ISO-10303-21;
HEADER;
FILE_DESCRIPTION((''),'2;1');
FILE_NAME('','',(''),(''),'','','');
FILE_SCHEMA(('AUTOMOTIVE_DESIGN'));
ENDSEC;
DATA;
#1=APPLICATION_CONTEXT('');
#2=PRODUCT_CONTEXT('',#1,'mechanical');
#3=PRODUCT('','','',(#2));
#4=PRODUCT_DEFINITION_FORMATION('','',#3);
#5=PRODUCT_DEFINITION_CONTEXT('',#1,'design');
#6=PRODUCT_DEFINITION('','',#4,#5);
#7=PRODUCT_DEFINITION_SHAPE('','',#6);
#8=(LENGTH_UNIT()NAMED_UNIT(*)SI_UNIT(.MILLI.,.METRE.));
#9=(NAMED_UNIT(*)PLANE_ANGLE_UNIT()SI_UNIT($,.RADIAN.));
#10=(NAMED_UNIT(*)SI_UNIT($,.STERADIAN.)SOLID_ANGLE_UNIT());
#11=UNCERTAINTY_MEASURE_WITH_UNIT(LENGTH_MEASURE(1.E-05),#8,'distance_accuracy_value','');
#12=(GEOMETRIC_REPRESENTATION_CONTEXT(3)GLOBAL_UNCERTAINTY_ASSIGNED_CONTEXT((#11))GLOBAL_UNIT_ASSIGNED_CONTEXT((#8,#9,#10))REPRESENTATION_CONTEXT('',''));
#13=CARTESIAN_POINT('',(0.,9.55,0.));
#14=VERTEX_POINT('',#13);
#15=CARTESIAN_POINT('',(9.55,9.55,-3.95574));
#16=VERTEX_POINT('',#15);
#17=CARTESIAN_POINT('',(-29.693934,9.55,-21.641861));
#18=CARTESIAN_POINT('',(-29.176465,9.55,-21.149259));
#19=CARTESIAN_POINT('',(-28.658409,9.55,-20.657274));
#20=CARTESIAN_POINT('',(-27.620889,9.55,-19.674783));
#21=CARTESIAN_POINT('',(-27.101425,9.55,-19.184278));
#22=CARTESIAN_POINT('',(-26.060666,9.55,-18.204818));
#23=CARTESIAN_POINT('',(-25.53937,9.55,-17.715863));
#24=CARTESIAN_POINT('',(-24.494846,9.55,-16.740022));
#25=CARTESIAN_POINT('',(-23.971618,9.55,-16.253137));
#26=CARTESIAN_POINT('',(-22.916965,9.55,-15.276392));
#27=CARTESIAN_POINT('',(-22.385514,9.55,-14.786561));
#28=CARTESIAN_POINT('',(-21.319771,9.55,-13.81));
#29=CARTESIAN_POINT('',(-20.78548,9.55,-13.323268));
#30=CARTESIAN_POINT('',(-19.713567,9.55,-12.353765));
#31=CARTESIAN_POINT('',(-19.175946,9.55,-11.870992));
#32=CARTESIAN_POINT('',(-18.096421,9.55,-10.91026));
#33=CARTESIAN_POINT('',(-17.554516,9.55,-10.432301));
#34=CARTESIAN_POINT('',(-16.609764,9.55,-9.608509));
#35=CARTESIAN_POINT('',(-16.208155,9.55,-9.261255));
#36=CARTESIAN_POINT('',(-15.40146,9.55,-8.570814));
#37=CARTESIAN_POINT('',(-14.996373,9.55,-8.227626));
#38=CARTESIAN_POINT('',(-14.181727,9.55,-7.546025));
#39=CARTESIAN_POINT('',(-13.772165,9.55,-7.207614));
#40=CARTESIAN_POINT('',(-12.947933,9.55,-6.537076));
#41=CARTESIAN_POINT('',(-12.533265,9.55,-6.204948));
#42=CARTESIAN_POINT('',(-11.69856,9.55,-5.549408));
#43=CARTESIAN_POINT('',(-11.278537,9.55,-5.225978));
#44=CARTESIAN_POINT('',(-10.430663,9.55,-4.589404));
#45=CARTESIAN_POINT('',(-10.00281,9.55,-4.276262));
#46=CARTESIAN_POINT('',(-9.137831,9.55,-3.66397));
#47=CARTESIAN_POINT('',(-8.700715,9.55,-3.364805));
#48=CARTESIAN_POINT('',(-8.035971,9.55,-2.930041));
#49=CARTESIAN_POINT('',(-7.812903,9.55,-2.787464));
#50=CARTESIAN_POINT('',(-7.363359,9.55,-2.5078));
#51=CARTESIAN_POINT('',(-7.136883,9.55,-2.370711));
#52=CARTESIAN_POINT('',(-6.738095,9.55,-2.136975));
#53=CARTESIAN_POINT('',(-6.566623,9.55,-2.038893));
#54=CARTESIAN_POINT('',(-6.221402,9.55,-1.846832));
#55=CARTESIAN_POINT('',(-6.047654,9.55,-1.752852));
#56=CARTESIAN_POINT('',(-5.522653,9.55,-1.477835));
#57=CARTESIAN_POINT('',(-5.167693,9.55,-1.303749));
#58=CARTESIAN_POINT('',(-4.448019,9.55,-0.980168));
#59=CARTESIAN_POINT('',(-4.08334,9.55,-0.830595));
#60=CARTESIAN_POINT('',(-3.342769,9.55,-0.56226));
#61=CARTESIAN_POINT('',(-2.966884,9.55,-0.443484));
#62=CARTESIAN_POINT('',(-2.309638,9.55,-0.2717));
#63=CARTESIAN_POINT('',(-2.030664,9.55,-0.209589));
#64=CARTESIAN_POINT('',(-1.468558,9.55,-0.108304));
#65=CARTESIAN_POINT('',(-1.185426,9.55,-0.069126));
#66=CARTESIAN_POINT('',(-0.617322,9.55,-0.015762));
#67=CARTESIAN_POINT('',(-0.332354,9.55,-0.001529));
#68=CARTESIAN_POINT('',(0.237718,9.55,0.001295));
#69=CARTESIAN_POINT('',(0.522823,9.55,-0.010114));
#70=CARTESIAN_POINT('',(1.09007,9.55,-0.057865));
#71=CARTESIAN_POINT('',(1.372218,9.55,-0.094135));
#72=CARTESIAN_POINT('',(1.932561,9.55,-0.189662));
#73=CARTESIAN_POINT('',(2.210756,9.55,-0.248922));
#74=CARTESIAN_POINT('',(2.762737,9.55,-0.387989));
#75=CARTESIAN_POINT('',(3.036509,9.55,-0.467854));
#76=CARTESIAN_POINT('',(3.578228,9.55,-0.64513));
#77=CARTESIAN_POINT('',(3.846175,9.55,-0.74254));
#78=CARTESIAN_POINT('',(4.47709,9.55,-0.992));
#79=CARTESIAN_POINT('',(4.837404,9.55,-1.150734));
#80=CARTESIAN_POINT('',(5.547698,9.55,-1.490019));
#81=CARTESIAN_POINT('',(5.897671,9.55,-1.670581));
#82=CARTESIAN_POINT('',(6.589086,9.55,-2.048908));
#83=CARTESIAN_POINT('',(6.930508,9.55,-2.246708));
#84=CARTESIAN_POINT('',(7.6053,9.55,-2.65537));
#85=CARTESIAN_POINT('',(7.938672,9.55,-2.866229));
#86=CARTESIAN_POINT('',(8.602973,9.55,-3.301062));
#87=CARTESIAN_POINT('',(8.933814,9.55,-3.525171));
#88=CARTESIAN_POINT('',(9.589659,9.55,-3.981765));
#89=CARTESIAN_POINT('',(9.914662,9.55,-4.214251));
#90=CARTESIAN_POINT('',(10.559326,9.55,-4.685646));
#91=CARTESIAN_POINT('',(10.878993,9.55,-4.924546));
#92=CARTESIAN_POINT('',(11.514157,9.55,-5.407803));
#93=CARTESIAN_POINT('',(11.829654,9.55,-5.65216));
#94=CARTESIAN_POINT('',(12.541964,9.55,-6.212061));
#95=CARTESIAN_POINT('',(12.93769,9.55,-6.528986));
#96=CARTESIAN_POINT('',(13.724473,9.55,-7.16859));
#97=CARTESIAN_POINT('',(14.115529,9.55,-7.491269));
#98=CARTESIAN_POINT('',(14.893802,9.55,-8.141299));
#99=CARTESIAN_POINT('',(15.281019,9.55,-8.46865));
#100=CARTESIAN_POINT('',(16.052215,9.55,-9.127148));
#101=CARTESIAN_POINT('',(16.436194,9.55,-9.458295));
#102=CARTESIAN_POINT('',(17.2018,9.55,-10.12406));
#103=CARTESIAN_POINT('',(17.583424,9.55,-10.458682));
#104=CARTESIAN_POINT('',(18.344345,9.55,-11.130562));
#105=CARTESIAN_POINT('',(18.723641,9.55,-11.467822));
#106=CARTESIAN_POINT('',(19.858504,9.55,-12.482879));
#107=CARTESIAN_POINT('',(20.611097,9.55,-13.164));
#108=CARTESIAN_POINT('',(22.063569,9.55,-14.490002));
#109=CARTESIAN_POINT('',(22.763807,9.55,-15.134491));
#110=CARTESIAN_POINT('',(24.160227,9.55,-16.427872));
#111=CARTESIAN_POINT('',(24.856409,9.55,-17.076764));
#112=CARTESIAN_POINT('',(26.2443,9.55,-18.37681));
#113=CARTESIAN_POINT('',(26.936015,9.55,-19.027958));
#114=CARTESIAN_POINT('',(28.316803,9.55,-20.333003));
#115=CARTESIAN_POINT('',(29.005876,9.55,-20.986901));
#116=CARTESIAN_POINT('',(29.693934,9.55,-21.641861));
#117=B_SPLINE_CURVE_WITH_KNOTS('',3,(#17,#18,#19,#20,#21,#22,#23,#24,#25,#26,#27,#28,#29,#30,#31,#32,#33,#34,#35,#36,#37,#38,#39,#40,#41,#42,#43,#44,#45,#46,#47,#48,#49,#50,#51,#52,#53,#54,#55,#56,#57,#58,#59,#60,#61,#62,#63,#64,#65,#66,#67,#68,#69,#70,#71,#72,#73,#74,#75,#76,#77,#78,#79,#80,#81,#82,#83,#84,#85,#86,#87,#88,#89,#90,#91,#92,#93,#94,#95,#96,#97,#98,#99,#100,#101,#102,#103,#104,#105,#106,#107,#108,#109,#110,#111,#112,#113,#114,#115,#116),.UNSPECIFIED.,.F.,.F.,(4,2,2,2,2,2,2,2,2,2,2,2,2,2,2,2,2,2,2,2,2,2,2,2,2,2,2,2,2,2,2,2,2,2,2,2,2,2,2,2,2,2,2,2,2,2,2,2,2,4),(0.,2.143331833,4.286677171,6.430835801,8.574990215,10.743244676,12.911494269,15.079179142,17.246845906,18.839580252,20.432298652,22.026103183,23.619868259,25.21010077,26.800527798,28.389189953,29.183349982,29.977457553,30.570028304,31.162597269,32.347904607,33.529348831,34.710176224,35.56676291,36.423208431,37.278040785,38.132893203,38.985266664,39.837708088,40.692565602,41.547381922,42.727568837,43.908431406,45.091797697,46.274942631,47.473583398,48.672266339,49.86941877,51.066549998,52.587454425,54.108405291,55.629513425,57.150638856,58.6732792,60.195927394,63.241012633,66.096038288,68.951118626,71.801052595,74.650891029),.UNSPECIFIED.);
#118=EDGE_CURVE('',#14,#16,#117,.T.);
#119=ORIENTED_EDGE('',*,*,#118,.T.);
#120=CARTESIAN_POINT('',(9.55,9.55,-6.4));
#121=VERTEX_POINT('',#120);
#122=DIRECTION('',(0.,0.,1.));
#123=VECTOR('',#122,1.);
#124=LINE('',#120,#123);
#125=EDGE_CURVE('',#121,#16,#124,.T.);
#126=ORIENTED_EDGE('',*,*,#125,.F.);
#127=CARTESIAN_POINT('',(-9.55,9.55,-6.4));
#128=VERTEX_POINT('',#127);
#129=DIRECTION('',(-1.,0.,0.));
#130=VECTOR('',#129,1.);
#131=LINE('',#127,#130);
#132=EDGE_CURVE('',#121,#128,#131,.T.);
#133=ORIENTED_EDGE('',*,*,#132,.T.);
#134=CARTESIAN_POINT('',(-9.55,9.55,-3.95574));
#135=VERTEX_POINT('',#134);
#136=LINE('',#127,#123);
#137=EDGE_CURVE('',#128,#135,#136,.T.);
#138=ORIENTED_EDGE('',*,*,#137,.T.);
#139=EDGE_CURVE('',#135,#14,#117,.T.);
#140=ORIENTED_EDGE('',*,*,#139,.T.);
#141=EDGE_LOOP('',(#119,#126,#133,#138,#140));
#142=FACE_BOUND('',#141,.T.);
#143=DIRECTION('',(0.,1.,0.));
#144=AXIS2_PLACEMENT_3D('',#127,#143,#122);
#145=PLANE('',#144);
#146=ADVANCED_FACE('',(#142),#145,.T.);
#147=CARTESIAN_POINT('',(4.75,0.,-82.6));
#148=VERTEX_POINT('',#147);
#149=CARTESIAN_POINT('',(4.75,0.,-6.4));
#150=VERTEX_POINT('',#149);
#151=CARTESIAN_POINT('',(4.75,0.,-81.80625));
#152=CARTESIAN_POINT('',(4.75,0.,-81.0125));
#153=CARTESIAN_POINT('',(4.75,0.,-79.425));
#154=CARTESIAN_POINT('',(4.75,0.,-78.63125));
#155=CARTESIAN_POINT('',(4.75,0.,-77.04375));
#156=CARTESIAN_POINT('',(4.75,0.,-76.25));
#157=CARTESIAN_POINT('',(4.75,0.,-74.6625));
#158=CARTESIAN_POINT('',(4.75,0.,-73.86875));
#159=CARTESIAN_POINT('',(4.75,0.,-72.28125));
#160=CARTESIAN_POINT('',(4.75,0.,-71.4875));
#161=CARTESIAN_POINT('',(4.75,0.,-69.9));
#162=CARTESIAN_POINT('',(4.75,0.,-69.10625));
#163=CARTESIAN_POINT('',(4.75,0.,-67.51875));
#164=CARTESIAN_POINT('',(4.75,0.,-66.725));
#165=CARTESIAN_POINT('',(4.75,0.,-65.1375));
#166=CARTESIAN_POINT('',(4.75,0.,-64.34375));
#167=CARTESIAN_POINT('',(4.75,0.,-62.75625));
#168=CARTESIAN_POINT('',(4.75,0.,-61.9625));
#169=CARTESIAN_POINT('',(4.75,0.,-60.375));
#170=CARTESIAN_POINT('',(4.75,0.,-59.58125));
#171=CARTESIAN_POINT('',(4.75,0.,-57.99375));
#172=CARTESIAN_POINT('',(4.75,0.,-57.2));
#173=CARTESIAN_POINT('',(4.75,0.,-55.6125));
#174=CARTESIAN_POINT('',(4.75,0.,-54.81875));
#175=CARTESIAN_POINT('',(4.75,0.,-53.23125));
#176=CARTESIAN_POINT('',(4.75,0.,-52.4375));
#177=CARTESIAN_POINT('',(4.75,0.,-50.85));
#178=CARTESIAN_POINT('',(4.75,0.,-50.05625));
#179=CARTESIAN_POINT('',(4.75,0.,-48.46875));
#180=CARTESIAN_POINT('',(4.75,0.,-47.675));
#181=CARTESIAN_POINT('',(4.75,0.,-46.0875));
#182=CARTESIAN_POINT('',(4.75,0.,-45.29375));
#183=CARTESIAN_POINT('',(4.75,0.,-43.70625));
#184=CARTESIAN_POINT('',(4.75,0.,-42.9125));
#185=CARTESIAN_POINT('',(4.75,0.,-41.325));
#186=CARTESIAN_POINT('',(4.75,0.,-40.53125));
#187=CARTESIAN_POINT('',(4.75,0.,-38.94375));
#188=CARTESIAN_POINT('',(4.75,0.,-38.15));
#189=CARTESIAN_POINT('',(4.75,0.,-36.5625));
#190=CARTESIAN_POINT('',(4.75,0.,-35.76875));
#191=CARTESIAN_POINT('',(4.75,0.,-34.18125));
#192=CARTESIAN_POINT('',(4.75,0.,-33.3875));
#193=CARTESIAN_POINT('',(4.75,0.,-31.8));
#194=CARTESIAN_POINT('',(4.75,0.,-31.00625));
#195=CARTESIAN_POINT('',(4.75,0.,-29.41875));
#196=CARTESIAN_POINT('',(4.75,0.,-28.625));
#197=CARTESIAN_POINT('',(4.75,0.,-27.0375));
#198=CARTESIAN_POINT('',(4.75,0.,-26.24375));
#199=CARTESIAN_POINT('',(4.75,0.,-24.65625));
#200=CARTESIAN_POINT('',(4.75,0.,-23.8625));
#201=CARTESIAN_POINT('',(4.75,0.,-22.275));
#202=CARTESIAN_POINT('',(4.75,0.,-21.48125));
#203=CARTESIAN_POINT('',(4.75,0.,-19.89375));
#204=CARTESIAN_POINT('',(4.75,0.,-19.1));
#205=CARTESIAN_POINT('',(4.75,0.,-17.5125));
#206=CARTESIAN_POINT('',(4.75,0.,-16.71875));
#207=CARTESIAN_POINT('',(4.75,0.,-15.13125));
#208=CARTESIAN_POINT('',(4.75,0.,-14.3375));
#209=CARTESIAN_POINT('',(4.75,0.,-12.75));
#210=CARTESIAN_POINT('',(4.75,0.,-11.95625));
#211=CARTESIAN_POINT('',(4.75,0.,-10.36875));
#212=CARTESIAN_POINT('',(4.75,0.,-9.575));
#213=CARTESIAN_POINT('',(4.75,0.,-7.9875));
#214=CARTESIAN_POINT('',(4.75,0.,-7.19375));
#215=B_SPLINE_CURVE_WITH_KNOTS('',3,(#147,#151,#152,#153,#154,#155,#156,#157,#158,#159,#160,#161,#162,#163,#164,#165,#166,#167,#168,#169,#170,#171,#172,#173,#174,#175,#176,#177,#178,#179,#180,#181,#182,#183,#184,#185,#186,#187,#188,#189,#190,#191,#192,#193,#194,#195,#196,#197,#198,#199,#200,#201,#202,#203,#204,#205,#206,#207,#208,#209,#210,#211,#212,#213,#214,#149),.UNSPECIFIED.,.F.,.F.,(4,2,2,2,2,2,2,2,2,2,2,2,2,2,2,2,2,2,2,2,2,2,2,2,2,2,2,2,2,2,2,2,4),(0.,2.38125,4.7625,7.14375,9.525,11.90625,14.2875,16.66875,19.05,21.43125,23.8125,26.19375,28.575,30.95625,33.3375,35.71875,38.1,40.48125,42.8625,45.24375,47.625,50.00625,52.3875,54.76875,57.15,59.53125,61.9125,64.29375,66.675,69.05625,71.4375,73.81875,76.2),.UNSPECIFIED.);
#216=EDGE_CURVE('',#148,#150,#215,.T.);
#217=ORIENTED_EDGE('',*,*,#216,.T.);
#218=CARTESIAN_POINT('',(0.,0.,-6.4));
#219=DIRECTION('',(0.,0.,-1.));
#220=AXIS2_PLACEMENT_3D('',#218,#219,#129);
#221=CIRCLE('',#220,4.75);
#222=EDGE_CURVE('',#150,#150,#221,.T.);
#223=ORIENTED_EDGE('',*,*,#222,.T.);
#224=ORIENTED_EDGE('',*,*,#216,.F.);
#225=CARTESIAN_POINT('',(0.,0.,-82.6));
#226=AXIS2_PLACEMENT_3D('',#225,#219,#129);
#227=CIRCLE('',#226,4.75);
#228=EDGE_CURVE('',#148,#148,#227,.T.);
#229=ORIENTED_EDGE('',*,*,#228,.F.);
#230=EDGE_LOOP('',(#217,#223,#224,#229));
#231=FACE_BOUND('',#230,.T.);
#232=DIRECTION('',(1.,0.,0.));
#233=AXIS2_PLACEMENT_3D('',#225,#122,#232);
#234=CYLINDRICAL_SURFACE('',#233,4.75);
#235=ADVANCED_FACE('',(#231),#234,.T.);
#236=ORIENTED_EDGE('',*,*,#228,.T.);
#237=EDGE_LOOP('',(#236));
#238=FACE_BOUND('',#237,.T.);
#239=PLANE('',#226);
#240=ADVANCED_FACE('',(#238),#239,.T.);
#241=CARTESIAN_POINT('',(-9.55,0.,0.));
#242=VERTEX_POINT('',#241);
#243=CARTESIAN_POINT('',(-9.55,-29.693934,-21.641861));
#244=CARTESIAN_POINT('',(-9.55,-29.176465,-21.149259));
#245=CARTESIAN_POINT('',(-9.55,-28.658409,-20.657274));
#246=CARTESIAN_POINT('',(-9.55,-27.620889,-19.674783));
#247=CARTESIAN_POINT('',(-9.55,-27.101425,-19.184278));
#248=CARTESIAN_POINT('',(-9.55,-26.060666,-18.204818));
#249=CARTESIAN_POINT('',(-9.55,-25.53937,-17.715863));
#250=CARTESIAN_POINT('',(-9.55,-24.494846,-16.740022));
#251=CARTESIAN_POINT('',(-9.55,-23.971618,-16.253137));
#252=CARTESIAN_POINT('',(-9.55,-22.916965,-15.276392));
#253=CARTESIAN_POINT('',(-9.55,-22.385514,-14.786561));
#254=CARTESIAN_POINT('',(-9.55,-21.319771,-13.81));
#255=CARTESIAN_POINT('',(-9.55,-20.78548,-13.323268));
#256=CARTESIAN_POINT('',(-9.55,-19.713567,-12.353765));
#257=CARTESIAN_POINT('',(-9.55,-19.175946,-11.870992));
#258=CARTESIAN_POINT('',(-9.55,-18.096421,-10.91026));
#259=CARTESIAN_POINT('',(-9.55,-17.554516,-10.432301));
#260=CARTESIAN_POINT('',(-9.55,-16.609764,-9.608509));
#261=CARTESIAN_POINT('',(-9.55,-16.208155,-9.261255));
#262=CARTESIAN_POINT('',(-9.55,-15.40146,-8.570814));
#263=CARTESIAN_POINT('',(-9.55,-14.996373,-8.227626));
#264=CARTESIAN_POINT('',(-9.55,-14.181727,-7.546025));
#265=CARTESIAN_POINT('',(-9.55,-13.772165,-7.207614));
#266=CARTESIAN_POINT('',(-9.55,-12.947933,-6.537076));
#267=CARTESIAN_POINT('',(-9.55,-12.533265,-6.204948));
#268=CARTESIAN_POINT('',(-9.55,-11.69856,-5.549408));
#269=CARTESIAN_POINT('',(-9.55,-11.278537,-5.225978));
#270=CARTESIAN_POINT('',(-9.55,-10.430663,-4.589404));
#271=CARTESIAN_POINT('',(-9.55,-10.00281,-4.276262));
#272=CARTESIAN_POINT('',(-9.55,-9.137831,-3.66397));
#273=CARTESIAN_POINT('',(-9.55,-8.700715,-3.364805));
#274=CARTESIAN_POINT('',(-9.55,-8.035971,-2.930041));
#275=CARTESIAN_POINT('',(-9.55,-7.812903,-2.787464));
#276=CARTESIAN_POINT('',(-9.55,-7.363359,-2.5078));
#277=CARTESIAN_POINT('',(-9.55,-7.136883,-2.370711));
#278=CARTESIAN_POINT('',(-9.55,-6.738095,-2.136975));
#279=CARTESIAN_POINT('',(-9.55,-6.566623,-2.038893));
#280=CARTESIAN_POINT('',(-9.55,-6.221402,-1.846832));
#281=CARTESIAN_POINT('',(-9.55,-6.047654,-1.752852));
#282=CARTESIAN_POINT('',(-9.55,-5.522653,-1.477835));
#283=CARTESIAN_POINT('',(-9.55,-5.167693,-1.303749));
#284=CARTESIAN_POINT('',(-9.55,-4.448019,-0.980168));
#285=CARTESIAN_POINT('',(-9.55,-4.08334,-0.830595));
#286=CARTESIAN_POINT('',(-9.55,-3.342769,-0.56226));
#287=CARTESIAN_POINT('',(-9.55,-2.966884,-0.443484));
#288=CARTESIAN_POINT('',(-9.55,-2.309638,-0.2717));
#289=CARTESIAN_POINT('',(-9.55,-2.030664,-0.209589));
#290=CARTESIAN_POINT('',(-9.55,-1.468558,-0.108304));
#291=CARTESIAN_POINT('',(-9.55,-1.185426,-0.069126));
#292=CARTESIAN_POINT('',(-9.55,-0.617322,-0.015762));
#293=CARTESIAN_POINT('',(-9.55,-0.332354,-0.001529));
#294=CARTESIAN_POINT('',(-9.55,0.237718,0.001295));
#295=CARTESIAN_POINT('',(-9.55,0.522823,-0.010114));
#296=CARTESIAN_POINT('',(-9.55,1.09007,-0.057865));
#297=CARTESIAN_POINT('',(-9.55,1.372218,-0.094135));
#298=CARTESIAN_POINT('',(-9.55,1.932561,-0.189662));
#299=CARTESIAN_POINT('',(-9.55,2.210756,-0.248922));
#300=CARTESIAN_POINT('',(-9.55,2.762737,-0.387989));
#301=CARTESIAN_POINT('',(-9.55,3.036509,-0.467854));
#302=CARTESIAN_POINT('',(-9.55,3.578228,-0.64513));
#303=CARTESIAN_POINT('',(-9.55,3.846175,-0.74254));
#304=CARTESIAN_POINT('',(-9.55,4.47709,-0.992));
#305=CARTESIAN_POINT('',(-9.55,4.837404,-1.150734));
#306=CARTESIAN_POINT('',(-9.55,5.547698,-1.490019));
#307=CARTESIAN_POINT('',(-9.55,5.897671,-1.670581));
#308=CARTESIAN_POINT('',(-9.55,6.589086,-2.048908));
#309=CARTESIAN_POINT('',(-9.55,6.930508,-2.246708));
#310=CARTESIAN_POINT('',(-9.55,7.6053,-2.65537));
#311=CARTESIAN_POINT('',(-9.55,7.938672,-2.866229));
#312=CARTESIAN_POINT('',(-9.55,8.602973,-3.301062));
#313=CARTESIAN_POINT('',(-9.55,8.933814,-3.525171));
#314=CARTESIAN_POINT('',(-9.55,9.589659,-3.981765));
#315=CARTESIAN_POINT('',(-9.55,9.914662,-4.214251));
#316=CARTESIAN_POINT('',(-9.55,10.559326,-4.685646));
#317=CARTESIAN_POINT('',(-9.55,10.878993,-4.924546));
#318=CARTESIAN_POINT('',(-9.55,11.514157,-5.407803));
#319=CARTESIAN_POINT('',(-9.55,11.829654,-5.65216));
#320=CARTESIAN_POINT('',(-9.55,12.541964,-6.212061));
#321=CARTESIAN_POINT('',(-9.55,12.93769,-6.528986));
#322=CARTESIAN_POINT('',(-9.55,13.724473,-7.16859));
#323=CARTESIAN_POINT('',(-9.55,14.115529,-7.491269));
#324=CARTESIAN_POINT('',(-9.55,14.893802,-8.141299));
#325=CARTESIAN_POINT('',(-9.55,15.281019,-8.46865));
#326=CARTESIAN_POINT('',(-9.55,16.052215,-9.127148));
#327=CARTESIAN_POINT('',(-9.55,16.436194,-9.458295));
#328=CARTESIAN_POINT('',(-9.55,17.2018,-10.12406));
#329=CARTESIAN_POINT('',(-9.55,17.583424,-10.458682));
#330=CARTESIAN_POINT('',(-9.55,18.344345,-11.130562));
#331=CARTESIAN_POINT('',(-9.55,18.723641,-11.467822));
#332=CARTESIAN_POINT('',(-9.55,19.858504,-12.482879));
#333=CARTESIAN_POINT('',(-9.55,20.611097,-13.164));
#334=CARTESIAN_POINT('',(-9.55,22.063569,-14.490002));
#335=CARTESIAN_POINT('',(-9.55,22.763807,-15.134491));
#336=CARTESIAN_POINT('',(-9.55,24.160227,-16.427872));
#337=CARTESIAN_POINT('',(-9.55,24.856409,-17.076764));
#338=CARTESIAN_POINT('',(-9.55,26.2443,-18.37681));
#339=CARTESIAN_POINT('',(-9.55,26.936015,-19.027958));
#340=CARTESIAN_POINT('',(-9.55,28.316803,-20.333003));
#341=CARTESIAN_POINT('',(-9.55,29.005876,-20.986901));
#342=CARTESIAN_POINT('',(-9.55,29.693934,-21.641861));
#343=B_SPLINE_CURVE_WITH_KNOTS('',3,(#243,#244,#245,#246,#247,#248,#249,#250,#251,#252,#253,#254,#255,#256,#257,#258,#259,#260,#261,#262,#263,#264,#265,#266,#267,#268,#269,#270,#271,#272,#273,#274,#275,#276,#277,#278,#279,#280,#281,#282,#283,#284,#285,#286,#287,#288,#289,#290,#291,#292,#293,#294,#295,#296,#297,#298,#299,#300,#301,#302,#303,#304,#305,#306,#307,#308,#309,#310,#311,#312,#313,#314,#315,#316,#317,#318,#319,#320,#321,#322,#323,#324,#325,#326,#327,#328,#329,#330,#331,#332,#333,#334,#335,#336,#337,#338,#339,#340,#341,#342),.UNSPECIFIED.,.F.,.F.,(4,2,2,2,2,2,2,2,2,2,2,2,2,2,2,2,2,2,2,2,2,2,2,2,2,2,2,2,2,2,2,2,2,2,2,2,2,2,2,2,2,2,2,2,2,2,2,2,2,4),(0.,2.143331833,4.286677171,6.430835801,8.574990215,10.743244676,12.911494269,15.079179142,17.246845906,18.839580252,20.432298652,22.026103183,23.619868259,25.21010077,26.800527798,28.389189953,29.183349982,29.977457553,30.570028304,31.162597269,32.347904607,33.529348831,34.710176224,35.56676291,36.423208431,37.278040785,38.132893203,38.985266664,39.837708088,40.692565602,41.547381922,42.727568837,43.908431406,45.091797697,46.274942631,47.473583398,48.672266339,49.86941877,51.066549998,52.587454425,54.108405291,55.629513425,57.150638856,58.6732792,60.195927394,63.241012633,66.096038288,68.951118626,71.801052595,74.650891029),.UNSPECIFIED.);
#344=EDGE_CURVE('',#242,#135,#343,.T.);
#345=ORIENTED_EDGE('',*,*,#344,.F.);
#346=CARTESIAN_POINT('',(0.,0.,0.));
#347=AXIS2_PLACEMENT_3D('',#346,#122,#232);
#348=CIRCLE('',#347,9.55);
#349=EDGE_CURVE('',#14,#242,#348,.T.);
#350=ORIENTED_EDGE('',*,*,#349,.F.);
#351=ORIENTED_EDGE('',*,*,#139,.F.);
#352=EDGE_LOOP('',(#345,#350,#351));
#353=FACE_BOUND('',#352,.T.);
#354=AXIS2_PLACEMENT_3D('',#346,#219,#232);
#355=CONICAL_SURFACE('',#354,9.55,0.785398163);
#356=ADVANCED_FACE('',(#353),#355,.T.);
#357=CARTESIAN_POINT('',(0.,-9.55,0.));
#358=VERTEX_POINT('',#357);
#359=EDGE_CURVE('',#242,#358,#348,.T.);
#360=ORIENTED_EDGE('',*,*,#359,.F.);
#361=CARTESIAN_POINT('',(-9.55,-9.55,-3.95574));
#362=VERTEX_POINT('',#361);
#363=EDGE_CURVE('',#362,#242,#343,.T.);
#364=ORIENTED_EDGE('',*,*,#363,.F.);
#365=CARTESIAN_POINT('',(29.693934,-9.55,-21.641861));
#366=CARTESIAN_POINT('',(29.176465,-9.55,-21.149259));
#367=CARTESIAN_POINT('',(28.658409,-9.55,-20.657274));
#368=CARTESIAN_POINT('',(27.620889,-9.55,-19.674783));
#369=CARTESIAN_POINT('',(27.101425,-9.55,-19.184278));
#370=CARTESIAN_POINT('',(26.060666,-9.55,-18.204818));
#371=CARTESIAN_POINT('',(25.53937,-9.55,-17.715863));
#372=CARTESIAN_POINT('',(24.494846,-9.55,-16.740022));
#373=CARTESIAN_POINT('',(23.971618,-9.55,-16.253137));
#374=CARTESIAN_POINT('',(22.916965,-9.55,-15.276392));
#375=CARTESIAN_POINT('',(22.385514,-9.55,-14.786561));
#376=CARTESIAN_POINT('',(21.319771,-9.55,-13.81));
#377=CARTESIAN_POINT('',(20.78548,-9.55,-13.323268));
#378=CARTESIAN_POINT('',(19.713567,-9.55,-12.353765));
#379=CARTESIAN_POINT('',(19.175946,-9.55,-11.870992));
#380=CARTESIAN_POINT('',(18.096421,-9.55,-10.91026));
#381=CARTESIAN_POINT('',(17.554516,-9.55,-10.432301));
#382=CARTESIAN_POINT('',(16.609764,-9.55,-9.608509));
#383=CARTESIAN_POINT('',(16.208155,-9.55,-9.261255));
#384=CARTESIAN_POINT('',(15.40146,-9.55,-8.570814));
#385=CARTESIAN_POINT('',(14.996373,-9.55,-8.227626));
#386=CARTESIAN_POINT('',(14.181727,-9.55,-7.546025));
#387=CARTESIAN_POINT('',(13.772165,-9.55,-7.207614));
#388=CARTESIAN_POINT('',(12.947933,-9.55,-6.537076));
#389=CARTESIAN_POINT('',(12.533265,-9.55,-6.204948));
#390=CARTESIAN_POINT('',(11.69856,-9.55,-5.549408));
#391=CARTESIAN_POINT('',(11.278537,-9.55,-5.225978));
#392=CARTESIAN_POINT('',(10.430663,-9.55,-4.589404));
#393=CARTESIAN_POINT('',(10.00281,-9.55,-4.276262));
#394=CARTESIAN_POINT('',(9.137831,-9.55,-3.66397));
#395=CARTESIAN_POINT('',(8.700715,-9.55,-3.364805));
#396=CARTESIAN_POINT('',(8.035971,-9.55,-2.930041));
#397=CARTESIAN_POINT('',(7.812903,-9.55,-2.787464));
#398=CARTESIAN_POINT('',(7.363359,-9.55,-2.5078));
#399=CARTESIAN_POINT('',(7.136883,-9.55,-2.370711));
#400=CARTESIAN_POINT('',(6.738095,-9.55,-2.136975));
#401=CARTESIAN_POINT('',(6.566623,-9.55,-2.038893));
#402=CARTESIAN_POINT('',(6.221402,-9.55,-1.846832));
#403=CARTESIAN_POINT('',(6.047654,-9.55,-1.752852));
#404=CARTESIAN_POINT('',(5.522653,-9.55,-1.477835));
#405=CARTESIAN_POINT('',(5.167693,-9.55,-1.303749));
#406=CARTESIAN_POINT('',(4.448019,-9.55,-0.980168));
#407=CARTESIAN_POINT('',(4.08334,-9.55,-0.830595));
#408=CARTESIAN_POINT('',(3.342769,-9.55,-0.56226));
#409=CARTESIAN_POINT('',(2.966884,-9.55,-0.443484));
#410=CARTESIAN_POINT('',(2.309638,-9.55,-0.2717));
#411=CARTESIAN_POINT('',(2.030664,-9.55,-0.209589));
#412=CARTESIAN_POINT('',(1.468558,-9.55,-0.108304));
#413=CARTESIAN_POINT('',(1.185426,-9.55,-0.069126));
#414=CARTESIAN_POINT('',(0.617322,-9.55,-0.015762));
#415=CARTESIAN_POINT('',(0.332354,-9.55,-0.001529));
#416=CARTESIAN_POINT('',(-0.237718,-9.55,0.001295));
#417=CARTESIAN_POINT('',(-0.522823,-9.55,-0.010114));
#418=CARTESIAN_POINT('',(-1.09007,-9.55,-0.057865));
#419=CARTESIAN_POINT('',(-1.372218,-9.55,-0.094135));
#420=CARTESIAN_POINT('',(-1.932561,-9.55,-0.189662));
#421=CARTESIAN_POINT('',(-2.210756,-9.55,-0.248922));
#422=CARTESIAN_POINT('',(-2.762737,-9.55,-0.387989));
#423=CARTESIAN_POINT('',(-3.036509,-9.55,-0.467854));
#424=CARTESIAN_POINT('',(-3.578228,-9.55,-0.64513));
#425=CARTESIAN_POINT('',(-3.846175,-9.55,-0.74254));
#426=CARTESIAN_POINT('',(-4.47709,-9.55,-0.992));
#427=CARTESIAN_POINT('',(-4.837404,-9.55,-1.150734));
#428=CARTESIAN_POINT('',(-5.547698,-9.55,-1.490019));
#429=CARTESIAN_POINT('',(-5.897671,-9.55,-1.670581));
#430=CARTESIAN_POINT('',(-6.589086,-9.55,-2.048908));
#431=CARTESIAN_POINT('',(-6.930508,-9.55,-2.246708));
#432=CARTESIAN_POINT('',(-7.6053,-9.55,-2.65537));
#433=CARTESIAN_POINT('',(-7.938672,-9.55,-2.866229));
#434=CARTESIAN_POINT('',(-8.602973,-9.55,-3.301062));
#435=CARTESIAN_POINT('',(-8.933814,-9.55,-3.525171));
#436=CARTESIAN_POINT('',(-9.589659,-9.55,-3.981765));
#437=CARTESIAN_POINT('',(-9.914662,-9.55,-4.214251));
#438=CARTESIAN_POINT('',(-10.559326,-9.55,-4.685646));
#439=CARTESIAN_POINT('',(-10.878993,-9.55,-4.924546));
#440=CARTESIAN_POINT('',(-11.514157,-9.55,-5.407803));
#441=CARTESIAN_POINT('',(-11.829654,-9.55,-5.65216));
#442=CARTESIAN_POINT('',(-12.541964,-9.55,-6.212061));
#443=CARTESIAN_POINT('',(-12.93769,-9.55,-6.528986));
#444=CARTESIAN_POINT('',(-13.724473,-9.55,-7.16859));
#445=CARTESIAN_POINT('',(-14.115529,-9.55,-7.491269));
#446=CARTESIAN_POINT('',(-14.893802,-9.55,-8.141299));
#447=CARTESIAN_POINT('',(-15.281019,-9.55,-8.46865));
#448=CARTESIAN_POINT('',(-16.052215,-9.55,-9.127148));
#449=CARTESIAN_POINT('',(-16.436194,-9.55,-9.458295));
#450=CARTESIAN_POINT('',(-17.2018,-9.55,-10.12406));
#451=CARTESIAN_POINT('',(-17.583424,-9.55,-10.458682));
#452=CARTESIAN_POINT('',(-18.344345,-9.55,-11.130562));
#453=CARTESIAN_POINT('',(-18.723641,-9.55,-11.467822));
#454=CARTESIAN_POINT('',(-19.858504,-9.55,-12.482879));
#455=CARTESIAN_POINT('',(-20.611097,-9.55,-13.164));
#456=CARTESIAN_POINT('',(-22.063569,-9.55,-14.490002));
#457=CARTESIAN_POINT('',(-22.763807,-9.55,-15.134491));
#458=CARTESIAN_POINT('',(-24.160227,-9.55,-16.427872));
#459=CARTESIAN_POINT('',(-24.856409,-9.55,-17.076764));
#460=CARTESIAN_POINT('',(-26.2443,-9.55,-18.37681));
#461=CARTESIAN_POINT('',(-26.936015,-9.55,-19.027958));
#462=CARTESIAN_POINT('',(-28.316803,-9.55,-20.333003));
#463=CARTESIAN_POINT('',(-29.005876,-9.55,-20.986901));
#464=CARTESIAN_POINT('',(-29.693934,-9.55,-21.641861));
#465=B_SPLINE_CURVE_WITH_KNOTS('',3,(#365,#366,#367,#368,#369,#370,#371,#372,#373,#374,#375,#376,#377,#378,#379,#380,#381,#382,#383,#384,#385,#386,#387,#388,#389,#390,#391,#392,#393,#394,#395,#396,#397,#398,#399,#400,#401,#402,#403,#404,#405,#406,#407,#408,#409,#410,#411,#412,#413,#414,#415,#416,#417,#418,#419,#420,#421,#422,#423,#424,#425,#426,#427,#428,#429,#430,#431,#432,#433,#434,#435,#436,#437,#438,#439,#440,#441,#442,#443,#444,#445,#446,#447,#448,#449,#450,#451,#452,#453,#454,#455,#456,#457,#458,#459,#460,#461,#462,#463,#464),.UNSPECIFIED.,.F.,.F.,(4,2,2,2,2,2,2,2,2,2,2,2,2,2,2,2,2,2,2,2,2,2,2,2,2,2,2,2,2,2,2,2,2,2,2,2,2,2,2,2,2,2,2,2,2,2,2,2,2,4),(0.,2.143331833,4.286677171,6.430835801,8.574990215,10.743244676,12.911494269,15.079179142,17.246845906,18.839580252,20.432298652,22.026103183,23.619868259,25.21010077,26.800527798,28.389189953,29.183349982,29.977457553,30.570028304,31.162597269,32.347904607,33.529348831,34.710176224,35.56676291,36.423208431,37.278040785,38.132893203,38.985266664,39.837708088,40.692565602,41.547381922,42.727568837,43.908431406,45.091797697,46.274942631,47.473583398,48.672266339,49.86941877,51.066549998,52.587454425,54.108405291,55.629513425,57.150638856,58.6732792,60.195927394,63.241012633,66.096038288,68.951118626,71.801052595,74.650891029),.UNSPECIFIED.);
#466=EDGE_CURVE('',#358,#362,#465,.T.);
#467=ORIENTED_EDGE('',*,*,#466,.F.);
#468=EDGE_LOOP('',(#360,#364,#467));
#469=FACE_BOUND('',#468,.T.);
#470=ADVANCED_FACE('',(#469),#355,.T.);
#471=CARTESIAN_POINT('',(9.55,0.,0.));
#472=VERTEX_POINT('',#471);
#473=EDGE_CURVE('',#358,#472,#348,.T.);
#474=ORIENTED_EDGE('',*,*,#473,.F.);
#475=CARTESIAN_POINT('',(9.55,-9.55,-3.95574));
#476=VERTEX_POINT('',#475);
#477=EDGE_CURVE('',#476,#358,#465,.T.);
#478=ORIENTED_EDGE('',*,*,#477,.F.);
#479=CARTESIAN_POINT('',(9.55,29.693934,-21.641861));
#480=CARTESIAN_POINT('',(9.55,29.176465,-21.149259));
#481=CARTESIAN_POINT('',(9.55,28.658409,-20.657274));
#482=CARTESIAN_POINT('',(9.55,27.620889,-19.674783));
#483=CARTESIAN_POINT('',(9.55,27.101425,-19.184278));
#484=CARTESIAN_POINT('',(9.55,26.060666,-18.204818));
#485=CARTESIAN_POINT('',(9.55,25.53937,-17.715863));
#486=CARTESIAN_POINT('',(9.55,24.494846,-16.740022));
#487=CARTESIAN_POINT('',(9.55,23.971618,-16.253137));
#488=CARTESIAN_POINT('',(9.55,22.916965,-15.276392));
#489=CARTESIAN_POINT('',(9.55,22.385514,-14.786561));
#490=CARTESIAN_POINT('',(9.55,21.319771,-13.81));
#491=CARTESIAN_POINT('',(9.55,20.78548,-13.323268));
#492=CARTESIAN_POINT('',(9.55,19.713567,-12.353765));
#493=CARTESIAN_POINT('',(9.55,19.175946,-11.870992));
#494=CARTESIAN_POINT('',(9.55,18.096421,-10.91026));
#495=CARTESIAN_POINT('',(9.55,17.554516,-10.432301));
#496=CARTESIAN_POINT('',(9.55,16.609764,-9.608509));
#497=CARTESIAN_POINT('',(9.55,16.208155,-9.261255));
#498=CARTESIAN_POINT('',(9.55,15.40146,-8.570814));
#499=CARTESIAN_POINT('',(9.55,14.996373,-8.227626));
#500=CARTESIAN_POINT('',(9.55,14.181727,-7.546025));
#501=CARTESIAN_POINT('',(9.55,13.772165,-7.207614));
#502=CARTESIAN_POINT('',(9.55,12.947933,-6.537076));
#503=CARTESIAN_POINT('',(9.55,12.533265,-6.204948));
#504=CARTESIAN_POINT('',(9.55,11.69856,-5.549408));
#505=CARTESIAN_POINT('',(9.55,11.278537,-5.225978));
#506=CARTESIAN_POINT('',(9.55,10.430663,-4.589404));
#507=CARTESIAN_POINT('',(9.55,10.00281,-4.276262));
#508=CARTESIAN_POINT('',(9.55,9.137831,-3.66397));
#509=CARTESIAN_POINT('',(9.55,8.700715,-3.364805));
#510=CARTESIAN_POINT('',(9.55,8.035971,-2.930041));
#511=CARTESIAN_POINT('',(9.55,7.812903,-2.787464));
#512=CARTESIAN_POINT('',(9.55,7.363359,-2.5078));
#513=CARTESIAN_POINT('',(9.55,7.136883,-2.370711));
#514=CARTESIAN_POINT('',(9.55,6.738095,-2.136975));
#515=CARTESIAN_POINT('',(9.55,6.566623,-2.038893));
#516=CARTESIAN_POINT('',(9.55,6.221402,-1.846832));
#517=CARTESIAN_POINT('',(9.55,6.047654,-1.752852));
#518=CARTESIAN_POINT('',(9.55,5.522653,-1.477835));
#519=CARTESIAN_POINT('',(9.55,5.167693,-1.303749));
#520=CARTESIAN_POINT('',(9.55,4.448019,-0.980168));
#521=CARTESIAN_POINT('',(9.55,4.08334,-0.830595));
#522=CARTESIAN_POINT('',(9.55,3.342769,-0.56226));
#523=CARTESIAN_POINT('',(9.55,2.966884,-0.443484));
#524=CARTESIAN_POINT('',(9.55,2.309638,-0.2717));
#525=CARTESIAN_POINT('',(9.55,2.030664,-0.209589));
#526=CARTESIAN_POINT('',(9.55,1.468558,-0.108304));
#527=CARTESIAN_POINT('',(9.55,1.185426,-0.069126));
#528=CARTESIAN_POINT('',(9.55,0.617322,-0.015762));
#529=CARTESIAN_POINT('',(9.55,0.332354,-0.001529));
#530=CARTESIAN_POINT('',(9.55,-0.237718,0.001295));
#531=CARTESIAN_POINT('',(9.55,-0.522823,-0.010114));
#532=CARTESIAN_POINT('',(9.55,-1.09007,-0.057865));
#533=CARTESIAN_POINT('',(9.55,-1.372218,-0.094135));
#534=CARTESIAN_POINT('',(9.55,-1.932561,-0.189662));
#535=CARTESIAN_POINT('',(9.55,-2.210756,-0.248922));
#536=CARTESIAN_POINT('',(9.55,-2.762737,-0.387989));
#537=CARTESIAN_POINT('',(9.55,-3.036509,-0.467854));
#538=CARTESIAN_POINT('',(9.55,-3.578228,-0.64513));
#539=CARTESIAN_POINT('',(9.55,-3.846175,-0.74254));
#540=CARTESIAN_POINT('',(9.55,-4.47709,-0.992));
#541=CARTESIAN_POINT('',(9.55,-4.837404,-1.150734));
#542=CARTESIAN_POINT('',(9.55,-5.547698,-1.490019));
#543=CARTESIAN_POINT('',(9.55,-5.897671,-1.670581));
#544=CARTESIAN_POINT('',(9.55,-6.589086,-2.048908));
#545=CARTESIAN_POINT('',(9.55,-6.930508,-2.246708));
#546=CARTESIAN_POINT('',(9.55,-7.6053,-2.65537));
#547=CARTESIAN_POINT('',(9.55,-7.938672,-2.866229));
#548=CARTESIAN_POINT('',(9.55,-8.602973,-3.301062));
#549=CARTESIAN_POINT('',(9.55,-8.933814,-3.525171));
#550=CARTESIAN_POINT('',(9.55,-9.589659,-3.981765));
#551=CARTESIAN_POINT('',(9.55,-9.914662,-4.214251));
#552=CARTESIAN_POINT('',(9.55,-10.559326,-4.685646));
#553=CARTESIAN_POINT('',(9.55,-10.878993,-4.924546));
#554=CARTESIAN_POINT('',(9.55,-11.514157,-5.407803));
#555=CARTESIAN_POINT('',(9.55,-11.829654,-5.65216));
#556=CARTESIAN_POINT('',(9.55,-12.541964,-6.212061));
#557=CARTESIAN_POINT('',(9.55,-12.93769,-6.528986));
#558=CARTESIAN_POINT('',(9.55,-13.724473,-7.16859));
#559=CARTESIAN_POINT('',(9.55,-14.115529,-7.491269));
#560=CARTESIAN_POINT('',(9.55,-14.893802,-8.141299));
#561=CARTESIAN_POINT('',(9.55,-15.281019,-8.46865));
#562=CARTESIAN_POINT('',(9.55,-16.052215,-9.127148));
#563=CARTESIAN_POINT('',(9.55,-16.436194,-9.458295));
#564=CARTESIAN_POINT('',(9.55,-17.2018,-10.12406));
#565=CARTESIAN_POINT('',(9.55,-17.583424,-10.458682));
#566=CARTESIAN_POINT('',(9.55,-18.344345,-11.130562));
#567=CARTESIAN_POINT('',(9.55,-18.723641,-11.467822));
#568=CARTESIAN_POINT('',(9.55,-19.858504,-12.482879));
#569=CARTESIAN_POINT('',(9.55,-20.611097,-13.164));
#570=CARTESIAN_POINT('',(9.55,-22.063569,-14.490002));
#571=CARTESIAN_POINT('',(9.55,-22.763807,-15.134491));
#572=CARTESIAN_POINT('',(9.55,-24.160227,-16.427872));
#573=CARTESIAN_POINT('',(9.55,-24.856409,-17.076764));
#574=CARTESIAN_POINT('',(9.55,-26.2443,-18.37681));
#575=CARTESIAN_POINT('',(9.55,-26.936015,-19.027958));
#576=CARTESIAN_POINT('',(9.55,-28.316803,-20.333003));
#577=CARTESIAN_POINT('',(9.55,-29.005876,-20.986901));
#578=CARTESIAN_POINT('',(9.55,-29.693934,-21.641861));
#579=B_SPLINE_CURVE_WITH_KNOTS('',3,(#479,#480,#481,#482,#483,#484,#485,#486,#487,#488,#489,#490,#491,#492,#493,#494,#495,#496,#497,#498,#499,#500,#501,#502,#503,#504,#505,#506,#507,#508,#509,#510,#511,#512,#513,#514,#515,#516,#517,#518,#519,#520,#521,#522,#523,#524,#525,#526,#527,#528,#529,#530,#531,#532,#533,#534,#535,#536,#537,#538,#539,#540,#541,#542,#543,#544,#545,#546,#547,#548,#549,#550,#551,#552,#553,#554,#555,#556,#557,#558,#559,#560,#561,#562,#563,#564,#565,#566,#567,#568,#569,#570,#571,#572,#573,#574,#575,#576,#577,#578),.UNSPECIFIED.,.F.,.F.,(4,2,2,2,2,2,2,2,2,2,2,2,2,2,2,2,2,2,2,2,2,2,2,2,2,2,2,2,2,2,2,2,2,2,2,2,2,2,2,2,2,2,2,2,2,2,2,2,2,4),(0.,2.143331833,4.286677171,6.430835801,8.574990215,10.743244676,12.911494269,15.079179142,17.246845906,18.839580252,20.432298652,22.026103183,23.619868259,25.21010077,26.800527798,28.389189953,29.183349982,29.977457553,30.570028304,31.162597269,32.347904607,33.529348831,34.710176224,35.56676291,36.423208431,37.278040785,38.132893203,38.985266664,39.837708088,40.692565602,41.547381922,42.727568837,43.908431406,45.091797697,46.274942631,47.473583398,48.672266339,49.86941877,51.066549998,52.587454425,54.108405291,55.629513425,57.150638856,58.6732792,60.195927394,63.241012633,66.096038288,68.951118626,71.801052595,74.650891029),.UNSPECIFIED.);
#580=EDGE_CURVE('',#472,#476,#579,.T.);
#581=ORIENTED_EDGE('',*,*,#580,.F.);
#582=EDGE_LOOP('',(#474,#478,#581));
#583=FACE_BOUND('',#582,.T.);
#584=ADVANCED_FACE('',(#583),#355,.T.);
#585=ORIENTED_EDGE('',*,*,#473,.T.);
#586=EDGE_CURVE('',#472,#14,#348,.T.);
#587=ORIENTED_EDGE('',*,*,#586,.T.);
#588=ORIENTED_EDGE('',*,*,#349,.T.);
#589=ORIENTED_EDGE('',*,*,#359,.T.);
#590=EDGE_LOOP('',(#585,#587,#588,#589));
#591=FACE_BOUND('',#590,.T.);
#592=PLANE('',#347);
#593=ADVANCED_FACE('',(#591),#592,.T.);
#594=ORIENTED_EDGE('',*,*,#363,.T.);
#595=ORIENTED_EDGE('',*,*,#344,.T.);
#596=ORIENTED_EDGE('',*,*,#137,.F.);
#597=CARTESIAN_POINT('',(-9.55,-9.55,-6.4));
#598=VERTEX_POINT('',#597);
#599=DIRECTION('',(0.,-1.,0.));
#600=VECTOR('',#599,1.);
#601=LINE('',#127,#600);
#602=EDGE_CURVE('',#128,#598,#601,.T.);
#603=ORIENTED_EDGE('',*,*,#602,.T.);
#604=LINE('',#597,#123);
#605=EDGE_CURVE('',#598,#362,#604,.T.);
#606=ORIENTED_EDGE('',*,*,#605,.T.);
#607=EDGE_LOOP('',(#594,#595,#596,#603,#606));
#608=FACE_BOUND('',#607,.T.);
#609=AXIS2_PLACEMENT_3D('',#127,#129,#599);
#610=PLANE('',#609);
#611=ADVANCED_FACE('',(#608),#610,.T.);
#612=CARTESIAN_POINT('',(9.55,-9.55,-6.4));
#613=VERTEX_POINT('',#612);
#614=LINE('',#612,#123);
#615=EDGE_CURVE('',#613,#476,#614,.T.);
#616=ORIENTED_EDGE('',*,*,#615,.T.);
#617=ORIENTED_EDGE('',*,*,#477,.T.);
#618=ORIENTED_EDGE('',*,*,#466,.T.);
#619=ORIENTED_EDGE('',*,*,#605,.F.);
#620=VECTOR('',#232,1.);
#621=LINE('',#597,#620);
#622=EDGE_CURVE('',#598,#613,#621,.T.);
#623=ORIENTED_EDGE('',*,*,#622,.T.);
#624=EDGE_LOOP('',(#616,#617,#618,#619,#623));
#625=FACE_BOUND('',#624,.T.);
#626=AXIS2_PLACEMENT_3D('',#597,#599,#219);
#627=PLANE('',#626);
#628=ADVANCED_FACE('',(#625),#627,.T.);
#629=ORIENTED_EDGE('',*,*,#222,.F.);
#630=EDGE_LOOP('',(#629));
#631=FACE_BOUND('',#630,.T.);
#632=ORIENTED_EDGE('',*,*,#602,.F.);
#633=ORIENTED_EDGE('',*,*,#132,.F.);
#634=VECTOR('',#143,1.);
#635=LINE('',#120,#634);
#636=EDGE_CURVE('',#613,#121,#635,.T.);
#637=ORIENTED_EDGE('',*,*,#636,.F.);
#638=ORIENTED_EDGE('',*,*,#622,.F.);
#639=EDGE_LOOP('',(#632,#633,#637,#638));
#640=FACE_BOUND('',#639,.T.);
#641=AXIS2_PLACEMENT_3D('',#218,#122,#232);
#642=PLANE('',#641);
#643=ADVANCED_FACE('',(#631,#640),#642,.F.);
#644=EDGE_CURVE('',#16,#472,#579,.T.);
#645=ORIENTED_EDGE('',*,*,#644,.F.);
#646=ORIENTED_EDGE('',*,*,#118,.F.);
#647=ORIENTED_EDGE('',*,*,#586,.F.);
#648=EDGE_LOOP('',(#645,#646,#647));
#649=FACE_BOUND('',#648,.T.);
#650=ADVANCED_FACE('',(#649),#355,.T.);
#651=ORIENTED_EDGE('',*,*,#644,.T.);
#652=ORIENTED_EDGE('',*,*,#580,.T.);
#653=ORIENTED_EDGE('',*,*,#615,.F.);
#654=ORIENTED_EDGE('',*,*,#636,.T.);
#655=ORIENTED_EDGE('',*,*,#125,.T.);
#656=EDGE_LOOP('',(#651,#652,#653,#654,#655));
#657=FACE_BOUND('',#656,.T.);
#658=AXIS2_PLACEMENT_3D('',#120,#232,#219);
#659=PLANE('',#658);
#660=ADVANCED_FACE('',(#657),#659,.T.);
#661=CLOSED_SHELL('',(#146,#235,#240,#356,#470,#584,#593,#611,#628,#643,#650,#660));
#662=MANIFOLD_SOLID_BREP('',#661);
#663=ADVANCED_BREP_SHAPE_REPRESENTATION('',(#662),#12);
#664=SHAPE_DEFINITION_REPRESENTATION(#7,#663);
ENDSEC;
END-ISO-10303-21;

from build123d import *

# Parameters (mm, degrees)
SKETCH1_W           = 19.1
SKETCH1_H           = 19.1
BOSS_EXTRUDE1_DEPTH = 6.4
SKETCH2_R           = 4.75
BOSS_EXTRUDE2_DEPTH = 76.2
SKETCH3_OUTSIDE_W   = 51.28
SKETCH3_OUTSIDE_H   = 51.28
SKETCH3_OUTSIDE_R   = 9.55
CUT_EXTRUDE2_DEPTH  = 6.4
CUT_EXTRUDE2_DRAFT  = -45


with BuildPart() as part:
    # Sketch1 → Boss-Extrude1 (new body)
    with BuildSketch(Plane.XY):
        Rectangle(SKETCH1_W, SKETCH1_H)
    extrude(amount=-BOSS_EXTRUDE1_DEPTH)

    # Sketch2 → Boss-Extrude2 (add)
    with BuildSketch(Plane(origin=(0, 0, -6.4), x_dir=(-1, 0, 0), z_dir=(0, 0, -1))):
        with Locations(Location((0, 0, 0), (0, 0, 180))):
            Circle(SKETCH2_R)
    extrude(amount=BOSS_EXTRUDE2_DEPTH)


with BuildPart() as cut_extrude2_tool:
    # Sketch3 outside → Cut-Extrude2 (with draft: the straight prism first)
    with BuildSketch(Plane.XY):
        Rectangle(SKETCH3_OUTSIDE_W, SKETCH3_OUTSIDE_H)
        Circle(SKETCH3_OUTSIDE_R, mode=Mode.SUBTRACT)
    extrude(amount=-CUT_EXTRUDE2_DEPTH)
    # Cut-Extrude2: the draft: its side faces are tilted about the plane it starts from
    cut_extrude2_sides = [cut_extrude2_tool.faces().sort_by_distance(p)[0] for p in [
        (0, -25.64, -3.2),
        (25.64, 0, -3.2),
        (0, 25.64, -3.2),
        (-25.64, 0, -3.2),
        (-9.55, 0, -3.2),
    ]]
    draft(cut_extrude2_sides, Plane.XY, CUT_EXTRUDE2_DRAFT)


with BuildPart() as part_1:
    add(part.part)

    # Cut-Extrude2: cut by cut_extrude2_tool
    add(cut_extrude2_tool.part, mode=Mode.SUBTRACT)


solid = part_1.part
